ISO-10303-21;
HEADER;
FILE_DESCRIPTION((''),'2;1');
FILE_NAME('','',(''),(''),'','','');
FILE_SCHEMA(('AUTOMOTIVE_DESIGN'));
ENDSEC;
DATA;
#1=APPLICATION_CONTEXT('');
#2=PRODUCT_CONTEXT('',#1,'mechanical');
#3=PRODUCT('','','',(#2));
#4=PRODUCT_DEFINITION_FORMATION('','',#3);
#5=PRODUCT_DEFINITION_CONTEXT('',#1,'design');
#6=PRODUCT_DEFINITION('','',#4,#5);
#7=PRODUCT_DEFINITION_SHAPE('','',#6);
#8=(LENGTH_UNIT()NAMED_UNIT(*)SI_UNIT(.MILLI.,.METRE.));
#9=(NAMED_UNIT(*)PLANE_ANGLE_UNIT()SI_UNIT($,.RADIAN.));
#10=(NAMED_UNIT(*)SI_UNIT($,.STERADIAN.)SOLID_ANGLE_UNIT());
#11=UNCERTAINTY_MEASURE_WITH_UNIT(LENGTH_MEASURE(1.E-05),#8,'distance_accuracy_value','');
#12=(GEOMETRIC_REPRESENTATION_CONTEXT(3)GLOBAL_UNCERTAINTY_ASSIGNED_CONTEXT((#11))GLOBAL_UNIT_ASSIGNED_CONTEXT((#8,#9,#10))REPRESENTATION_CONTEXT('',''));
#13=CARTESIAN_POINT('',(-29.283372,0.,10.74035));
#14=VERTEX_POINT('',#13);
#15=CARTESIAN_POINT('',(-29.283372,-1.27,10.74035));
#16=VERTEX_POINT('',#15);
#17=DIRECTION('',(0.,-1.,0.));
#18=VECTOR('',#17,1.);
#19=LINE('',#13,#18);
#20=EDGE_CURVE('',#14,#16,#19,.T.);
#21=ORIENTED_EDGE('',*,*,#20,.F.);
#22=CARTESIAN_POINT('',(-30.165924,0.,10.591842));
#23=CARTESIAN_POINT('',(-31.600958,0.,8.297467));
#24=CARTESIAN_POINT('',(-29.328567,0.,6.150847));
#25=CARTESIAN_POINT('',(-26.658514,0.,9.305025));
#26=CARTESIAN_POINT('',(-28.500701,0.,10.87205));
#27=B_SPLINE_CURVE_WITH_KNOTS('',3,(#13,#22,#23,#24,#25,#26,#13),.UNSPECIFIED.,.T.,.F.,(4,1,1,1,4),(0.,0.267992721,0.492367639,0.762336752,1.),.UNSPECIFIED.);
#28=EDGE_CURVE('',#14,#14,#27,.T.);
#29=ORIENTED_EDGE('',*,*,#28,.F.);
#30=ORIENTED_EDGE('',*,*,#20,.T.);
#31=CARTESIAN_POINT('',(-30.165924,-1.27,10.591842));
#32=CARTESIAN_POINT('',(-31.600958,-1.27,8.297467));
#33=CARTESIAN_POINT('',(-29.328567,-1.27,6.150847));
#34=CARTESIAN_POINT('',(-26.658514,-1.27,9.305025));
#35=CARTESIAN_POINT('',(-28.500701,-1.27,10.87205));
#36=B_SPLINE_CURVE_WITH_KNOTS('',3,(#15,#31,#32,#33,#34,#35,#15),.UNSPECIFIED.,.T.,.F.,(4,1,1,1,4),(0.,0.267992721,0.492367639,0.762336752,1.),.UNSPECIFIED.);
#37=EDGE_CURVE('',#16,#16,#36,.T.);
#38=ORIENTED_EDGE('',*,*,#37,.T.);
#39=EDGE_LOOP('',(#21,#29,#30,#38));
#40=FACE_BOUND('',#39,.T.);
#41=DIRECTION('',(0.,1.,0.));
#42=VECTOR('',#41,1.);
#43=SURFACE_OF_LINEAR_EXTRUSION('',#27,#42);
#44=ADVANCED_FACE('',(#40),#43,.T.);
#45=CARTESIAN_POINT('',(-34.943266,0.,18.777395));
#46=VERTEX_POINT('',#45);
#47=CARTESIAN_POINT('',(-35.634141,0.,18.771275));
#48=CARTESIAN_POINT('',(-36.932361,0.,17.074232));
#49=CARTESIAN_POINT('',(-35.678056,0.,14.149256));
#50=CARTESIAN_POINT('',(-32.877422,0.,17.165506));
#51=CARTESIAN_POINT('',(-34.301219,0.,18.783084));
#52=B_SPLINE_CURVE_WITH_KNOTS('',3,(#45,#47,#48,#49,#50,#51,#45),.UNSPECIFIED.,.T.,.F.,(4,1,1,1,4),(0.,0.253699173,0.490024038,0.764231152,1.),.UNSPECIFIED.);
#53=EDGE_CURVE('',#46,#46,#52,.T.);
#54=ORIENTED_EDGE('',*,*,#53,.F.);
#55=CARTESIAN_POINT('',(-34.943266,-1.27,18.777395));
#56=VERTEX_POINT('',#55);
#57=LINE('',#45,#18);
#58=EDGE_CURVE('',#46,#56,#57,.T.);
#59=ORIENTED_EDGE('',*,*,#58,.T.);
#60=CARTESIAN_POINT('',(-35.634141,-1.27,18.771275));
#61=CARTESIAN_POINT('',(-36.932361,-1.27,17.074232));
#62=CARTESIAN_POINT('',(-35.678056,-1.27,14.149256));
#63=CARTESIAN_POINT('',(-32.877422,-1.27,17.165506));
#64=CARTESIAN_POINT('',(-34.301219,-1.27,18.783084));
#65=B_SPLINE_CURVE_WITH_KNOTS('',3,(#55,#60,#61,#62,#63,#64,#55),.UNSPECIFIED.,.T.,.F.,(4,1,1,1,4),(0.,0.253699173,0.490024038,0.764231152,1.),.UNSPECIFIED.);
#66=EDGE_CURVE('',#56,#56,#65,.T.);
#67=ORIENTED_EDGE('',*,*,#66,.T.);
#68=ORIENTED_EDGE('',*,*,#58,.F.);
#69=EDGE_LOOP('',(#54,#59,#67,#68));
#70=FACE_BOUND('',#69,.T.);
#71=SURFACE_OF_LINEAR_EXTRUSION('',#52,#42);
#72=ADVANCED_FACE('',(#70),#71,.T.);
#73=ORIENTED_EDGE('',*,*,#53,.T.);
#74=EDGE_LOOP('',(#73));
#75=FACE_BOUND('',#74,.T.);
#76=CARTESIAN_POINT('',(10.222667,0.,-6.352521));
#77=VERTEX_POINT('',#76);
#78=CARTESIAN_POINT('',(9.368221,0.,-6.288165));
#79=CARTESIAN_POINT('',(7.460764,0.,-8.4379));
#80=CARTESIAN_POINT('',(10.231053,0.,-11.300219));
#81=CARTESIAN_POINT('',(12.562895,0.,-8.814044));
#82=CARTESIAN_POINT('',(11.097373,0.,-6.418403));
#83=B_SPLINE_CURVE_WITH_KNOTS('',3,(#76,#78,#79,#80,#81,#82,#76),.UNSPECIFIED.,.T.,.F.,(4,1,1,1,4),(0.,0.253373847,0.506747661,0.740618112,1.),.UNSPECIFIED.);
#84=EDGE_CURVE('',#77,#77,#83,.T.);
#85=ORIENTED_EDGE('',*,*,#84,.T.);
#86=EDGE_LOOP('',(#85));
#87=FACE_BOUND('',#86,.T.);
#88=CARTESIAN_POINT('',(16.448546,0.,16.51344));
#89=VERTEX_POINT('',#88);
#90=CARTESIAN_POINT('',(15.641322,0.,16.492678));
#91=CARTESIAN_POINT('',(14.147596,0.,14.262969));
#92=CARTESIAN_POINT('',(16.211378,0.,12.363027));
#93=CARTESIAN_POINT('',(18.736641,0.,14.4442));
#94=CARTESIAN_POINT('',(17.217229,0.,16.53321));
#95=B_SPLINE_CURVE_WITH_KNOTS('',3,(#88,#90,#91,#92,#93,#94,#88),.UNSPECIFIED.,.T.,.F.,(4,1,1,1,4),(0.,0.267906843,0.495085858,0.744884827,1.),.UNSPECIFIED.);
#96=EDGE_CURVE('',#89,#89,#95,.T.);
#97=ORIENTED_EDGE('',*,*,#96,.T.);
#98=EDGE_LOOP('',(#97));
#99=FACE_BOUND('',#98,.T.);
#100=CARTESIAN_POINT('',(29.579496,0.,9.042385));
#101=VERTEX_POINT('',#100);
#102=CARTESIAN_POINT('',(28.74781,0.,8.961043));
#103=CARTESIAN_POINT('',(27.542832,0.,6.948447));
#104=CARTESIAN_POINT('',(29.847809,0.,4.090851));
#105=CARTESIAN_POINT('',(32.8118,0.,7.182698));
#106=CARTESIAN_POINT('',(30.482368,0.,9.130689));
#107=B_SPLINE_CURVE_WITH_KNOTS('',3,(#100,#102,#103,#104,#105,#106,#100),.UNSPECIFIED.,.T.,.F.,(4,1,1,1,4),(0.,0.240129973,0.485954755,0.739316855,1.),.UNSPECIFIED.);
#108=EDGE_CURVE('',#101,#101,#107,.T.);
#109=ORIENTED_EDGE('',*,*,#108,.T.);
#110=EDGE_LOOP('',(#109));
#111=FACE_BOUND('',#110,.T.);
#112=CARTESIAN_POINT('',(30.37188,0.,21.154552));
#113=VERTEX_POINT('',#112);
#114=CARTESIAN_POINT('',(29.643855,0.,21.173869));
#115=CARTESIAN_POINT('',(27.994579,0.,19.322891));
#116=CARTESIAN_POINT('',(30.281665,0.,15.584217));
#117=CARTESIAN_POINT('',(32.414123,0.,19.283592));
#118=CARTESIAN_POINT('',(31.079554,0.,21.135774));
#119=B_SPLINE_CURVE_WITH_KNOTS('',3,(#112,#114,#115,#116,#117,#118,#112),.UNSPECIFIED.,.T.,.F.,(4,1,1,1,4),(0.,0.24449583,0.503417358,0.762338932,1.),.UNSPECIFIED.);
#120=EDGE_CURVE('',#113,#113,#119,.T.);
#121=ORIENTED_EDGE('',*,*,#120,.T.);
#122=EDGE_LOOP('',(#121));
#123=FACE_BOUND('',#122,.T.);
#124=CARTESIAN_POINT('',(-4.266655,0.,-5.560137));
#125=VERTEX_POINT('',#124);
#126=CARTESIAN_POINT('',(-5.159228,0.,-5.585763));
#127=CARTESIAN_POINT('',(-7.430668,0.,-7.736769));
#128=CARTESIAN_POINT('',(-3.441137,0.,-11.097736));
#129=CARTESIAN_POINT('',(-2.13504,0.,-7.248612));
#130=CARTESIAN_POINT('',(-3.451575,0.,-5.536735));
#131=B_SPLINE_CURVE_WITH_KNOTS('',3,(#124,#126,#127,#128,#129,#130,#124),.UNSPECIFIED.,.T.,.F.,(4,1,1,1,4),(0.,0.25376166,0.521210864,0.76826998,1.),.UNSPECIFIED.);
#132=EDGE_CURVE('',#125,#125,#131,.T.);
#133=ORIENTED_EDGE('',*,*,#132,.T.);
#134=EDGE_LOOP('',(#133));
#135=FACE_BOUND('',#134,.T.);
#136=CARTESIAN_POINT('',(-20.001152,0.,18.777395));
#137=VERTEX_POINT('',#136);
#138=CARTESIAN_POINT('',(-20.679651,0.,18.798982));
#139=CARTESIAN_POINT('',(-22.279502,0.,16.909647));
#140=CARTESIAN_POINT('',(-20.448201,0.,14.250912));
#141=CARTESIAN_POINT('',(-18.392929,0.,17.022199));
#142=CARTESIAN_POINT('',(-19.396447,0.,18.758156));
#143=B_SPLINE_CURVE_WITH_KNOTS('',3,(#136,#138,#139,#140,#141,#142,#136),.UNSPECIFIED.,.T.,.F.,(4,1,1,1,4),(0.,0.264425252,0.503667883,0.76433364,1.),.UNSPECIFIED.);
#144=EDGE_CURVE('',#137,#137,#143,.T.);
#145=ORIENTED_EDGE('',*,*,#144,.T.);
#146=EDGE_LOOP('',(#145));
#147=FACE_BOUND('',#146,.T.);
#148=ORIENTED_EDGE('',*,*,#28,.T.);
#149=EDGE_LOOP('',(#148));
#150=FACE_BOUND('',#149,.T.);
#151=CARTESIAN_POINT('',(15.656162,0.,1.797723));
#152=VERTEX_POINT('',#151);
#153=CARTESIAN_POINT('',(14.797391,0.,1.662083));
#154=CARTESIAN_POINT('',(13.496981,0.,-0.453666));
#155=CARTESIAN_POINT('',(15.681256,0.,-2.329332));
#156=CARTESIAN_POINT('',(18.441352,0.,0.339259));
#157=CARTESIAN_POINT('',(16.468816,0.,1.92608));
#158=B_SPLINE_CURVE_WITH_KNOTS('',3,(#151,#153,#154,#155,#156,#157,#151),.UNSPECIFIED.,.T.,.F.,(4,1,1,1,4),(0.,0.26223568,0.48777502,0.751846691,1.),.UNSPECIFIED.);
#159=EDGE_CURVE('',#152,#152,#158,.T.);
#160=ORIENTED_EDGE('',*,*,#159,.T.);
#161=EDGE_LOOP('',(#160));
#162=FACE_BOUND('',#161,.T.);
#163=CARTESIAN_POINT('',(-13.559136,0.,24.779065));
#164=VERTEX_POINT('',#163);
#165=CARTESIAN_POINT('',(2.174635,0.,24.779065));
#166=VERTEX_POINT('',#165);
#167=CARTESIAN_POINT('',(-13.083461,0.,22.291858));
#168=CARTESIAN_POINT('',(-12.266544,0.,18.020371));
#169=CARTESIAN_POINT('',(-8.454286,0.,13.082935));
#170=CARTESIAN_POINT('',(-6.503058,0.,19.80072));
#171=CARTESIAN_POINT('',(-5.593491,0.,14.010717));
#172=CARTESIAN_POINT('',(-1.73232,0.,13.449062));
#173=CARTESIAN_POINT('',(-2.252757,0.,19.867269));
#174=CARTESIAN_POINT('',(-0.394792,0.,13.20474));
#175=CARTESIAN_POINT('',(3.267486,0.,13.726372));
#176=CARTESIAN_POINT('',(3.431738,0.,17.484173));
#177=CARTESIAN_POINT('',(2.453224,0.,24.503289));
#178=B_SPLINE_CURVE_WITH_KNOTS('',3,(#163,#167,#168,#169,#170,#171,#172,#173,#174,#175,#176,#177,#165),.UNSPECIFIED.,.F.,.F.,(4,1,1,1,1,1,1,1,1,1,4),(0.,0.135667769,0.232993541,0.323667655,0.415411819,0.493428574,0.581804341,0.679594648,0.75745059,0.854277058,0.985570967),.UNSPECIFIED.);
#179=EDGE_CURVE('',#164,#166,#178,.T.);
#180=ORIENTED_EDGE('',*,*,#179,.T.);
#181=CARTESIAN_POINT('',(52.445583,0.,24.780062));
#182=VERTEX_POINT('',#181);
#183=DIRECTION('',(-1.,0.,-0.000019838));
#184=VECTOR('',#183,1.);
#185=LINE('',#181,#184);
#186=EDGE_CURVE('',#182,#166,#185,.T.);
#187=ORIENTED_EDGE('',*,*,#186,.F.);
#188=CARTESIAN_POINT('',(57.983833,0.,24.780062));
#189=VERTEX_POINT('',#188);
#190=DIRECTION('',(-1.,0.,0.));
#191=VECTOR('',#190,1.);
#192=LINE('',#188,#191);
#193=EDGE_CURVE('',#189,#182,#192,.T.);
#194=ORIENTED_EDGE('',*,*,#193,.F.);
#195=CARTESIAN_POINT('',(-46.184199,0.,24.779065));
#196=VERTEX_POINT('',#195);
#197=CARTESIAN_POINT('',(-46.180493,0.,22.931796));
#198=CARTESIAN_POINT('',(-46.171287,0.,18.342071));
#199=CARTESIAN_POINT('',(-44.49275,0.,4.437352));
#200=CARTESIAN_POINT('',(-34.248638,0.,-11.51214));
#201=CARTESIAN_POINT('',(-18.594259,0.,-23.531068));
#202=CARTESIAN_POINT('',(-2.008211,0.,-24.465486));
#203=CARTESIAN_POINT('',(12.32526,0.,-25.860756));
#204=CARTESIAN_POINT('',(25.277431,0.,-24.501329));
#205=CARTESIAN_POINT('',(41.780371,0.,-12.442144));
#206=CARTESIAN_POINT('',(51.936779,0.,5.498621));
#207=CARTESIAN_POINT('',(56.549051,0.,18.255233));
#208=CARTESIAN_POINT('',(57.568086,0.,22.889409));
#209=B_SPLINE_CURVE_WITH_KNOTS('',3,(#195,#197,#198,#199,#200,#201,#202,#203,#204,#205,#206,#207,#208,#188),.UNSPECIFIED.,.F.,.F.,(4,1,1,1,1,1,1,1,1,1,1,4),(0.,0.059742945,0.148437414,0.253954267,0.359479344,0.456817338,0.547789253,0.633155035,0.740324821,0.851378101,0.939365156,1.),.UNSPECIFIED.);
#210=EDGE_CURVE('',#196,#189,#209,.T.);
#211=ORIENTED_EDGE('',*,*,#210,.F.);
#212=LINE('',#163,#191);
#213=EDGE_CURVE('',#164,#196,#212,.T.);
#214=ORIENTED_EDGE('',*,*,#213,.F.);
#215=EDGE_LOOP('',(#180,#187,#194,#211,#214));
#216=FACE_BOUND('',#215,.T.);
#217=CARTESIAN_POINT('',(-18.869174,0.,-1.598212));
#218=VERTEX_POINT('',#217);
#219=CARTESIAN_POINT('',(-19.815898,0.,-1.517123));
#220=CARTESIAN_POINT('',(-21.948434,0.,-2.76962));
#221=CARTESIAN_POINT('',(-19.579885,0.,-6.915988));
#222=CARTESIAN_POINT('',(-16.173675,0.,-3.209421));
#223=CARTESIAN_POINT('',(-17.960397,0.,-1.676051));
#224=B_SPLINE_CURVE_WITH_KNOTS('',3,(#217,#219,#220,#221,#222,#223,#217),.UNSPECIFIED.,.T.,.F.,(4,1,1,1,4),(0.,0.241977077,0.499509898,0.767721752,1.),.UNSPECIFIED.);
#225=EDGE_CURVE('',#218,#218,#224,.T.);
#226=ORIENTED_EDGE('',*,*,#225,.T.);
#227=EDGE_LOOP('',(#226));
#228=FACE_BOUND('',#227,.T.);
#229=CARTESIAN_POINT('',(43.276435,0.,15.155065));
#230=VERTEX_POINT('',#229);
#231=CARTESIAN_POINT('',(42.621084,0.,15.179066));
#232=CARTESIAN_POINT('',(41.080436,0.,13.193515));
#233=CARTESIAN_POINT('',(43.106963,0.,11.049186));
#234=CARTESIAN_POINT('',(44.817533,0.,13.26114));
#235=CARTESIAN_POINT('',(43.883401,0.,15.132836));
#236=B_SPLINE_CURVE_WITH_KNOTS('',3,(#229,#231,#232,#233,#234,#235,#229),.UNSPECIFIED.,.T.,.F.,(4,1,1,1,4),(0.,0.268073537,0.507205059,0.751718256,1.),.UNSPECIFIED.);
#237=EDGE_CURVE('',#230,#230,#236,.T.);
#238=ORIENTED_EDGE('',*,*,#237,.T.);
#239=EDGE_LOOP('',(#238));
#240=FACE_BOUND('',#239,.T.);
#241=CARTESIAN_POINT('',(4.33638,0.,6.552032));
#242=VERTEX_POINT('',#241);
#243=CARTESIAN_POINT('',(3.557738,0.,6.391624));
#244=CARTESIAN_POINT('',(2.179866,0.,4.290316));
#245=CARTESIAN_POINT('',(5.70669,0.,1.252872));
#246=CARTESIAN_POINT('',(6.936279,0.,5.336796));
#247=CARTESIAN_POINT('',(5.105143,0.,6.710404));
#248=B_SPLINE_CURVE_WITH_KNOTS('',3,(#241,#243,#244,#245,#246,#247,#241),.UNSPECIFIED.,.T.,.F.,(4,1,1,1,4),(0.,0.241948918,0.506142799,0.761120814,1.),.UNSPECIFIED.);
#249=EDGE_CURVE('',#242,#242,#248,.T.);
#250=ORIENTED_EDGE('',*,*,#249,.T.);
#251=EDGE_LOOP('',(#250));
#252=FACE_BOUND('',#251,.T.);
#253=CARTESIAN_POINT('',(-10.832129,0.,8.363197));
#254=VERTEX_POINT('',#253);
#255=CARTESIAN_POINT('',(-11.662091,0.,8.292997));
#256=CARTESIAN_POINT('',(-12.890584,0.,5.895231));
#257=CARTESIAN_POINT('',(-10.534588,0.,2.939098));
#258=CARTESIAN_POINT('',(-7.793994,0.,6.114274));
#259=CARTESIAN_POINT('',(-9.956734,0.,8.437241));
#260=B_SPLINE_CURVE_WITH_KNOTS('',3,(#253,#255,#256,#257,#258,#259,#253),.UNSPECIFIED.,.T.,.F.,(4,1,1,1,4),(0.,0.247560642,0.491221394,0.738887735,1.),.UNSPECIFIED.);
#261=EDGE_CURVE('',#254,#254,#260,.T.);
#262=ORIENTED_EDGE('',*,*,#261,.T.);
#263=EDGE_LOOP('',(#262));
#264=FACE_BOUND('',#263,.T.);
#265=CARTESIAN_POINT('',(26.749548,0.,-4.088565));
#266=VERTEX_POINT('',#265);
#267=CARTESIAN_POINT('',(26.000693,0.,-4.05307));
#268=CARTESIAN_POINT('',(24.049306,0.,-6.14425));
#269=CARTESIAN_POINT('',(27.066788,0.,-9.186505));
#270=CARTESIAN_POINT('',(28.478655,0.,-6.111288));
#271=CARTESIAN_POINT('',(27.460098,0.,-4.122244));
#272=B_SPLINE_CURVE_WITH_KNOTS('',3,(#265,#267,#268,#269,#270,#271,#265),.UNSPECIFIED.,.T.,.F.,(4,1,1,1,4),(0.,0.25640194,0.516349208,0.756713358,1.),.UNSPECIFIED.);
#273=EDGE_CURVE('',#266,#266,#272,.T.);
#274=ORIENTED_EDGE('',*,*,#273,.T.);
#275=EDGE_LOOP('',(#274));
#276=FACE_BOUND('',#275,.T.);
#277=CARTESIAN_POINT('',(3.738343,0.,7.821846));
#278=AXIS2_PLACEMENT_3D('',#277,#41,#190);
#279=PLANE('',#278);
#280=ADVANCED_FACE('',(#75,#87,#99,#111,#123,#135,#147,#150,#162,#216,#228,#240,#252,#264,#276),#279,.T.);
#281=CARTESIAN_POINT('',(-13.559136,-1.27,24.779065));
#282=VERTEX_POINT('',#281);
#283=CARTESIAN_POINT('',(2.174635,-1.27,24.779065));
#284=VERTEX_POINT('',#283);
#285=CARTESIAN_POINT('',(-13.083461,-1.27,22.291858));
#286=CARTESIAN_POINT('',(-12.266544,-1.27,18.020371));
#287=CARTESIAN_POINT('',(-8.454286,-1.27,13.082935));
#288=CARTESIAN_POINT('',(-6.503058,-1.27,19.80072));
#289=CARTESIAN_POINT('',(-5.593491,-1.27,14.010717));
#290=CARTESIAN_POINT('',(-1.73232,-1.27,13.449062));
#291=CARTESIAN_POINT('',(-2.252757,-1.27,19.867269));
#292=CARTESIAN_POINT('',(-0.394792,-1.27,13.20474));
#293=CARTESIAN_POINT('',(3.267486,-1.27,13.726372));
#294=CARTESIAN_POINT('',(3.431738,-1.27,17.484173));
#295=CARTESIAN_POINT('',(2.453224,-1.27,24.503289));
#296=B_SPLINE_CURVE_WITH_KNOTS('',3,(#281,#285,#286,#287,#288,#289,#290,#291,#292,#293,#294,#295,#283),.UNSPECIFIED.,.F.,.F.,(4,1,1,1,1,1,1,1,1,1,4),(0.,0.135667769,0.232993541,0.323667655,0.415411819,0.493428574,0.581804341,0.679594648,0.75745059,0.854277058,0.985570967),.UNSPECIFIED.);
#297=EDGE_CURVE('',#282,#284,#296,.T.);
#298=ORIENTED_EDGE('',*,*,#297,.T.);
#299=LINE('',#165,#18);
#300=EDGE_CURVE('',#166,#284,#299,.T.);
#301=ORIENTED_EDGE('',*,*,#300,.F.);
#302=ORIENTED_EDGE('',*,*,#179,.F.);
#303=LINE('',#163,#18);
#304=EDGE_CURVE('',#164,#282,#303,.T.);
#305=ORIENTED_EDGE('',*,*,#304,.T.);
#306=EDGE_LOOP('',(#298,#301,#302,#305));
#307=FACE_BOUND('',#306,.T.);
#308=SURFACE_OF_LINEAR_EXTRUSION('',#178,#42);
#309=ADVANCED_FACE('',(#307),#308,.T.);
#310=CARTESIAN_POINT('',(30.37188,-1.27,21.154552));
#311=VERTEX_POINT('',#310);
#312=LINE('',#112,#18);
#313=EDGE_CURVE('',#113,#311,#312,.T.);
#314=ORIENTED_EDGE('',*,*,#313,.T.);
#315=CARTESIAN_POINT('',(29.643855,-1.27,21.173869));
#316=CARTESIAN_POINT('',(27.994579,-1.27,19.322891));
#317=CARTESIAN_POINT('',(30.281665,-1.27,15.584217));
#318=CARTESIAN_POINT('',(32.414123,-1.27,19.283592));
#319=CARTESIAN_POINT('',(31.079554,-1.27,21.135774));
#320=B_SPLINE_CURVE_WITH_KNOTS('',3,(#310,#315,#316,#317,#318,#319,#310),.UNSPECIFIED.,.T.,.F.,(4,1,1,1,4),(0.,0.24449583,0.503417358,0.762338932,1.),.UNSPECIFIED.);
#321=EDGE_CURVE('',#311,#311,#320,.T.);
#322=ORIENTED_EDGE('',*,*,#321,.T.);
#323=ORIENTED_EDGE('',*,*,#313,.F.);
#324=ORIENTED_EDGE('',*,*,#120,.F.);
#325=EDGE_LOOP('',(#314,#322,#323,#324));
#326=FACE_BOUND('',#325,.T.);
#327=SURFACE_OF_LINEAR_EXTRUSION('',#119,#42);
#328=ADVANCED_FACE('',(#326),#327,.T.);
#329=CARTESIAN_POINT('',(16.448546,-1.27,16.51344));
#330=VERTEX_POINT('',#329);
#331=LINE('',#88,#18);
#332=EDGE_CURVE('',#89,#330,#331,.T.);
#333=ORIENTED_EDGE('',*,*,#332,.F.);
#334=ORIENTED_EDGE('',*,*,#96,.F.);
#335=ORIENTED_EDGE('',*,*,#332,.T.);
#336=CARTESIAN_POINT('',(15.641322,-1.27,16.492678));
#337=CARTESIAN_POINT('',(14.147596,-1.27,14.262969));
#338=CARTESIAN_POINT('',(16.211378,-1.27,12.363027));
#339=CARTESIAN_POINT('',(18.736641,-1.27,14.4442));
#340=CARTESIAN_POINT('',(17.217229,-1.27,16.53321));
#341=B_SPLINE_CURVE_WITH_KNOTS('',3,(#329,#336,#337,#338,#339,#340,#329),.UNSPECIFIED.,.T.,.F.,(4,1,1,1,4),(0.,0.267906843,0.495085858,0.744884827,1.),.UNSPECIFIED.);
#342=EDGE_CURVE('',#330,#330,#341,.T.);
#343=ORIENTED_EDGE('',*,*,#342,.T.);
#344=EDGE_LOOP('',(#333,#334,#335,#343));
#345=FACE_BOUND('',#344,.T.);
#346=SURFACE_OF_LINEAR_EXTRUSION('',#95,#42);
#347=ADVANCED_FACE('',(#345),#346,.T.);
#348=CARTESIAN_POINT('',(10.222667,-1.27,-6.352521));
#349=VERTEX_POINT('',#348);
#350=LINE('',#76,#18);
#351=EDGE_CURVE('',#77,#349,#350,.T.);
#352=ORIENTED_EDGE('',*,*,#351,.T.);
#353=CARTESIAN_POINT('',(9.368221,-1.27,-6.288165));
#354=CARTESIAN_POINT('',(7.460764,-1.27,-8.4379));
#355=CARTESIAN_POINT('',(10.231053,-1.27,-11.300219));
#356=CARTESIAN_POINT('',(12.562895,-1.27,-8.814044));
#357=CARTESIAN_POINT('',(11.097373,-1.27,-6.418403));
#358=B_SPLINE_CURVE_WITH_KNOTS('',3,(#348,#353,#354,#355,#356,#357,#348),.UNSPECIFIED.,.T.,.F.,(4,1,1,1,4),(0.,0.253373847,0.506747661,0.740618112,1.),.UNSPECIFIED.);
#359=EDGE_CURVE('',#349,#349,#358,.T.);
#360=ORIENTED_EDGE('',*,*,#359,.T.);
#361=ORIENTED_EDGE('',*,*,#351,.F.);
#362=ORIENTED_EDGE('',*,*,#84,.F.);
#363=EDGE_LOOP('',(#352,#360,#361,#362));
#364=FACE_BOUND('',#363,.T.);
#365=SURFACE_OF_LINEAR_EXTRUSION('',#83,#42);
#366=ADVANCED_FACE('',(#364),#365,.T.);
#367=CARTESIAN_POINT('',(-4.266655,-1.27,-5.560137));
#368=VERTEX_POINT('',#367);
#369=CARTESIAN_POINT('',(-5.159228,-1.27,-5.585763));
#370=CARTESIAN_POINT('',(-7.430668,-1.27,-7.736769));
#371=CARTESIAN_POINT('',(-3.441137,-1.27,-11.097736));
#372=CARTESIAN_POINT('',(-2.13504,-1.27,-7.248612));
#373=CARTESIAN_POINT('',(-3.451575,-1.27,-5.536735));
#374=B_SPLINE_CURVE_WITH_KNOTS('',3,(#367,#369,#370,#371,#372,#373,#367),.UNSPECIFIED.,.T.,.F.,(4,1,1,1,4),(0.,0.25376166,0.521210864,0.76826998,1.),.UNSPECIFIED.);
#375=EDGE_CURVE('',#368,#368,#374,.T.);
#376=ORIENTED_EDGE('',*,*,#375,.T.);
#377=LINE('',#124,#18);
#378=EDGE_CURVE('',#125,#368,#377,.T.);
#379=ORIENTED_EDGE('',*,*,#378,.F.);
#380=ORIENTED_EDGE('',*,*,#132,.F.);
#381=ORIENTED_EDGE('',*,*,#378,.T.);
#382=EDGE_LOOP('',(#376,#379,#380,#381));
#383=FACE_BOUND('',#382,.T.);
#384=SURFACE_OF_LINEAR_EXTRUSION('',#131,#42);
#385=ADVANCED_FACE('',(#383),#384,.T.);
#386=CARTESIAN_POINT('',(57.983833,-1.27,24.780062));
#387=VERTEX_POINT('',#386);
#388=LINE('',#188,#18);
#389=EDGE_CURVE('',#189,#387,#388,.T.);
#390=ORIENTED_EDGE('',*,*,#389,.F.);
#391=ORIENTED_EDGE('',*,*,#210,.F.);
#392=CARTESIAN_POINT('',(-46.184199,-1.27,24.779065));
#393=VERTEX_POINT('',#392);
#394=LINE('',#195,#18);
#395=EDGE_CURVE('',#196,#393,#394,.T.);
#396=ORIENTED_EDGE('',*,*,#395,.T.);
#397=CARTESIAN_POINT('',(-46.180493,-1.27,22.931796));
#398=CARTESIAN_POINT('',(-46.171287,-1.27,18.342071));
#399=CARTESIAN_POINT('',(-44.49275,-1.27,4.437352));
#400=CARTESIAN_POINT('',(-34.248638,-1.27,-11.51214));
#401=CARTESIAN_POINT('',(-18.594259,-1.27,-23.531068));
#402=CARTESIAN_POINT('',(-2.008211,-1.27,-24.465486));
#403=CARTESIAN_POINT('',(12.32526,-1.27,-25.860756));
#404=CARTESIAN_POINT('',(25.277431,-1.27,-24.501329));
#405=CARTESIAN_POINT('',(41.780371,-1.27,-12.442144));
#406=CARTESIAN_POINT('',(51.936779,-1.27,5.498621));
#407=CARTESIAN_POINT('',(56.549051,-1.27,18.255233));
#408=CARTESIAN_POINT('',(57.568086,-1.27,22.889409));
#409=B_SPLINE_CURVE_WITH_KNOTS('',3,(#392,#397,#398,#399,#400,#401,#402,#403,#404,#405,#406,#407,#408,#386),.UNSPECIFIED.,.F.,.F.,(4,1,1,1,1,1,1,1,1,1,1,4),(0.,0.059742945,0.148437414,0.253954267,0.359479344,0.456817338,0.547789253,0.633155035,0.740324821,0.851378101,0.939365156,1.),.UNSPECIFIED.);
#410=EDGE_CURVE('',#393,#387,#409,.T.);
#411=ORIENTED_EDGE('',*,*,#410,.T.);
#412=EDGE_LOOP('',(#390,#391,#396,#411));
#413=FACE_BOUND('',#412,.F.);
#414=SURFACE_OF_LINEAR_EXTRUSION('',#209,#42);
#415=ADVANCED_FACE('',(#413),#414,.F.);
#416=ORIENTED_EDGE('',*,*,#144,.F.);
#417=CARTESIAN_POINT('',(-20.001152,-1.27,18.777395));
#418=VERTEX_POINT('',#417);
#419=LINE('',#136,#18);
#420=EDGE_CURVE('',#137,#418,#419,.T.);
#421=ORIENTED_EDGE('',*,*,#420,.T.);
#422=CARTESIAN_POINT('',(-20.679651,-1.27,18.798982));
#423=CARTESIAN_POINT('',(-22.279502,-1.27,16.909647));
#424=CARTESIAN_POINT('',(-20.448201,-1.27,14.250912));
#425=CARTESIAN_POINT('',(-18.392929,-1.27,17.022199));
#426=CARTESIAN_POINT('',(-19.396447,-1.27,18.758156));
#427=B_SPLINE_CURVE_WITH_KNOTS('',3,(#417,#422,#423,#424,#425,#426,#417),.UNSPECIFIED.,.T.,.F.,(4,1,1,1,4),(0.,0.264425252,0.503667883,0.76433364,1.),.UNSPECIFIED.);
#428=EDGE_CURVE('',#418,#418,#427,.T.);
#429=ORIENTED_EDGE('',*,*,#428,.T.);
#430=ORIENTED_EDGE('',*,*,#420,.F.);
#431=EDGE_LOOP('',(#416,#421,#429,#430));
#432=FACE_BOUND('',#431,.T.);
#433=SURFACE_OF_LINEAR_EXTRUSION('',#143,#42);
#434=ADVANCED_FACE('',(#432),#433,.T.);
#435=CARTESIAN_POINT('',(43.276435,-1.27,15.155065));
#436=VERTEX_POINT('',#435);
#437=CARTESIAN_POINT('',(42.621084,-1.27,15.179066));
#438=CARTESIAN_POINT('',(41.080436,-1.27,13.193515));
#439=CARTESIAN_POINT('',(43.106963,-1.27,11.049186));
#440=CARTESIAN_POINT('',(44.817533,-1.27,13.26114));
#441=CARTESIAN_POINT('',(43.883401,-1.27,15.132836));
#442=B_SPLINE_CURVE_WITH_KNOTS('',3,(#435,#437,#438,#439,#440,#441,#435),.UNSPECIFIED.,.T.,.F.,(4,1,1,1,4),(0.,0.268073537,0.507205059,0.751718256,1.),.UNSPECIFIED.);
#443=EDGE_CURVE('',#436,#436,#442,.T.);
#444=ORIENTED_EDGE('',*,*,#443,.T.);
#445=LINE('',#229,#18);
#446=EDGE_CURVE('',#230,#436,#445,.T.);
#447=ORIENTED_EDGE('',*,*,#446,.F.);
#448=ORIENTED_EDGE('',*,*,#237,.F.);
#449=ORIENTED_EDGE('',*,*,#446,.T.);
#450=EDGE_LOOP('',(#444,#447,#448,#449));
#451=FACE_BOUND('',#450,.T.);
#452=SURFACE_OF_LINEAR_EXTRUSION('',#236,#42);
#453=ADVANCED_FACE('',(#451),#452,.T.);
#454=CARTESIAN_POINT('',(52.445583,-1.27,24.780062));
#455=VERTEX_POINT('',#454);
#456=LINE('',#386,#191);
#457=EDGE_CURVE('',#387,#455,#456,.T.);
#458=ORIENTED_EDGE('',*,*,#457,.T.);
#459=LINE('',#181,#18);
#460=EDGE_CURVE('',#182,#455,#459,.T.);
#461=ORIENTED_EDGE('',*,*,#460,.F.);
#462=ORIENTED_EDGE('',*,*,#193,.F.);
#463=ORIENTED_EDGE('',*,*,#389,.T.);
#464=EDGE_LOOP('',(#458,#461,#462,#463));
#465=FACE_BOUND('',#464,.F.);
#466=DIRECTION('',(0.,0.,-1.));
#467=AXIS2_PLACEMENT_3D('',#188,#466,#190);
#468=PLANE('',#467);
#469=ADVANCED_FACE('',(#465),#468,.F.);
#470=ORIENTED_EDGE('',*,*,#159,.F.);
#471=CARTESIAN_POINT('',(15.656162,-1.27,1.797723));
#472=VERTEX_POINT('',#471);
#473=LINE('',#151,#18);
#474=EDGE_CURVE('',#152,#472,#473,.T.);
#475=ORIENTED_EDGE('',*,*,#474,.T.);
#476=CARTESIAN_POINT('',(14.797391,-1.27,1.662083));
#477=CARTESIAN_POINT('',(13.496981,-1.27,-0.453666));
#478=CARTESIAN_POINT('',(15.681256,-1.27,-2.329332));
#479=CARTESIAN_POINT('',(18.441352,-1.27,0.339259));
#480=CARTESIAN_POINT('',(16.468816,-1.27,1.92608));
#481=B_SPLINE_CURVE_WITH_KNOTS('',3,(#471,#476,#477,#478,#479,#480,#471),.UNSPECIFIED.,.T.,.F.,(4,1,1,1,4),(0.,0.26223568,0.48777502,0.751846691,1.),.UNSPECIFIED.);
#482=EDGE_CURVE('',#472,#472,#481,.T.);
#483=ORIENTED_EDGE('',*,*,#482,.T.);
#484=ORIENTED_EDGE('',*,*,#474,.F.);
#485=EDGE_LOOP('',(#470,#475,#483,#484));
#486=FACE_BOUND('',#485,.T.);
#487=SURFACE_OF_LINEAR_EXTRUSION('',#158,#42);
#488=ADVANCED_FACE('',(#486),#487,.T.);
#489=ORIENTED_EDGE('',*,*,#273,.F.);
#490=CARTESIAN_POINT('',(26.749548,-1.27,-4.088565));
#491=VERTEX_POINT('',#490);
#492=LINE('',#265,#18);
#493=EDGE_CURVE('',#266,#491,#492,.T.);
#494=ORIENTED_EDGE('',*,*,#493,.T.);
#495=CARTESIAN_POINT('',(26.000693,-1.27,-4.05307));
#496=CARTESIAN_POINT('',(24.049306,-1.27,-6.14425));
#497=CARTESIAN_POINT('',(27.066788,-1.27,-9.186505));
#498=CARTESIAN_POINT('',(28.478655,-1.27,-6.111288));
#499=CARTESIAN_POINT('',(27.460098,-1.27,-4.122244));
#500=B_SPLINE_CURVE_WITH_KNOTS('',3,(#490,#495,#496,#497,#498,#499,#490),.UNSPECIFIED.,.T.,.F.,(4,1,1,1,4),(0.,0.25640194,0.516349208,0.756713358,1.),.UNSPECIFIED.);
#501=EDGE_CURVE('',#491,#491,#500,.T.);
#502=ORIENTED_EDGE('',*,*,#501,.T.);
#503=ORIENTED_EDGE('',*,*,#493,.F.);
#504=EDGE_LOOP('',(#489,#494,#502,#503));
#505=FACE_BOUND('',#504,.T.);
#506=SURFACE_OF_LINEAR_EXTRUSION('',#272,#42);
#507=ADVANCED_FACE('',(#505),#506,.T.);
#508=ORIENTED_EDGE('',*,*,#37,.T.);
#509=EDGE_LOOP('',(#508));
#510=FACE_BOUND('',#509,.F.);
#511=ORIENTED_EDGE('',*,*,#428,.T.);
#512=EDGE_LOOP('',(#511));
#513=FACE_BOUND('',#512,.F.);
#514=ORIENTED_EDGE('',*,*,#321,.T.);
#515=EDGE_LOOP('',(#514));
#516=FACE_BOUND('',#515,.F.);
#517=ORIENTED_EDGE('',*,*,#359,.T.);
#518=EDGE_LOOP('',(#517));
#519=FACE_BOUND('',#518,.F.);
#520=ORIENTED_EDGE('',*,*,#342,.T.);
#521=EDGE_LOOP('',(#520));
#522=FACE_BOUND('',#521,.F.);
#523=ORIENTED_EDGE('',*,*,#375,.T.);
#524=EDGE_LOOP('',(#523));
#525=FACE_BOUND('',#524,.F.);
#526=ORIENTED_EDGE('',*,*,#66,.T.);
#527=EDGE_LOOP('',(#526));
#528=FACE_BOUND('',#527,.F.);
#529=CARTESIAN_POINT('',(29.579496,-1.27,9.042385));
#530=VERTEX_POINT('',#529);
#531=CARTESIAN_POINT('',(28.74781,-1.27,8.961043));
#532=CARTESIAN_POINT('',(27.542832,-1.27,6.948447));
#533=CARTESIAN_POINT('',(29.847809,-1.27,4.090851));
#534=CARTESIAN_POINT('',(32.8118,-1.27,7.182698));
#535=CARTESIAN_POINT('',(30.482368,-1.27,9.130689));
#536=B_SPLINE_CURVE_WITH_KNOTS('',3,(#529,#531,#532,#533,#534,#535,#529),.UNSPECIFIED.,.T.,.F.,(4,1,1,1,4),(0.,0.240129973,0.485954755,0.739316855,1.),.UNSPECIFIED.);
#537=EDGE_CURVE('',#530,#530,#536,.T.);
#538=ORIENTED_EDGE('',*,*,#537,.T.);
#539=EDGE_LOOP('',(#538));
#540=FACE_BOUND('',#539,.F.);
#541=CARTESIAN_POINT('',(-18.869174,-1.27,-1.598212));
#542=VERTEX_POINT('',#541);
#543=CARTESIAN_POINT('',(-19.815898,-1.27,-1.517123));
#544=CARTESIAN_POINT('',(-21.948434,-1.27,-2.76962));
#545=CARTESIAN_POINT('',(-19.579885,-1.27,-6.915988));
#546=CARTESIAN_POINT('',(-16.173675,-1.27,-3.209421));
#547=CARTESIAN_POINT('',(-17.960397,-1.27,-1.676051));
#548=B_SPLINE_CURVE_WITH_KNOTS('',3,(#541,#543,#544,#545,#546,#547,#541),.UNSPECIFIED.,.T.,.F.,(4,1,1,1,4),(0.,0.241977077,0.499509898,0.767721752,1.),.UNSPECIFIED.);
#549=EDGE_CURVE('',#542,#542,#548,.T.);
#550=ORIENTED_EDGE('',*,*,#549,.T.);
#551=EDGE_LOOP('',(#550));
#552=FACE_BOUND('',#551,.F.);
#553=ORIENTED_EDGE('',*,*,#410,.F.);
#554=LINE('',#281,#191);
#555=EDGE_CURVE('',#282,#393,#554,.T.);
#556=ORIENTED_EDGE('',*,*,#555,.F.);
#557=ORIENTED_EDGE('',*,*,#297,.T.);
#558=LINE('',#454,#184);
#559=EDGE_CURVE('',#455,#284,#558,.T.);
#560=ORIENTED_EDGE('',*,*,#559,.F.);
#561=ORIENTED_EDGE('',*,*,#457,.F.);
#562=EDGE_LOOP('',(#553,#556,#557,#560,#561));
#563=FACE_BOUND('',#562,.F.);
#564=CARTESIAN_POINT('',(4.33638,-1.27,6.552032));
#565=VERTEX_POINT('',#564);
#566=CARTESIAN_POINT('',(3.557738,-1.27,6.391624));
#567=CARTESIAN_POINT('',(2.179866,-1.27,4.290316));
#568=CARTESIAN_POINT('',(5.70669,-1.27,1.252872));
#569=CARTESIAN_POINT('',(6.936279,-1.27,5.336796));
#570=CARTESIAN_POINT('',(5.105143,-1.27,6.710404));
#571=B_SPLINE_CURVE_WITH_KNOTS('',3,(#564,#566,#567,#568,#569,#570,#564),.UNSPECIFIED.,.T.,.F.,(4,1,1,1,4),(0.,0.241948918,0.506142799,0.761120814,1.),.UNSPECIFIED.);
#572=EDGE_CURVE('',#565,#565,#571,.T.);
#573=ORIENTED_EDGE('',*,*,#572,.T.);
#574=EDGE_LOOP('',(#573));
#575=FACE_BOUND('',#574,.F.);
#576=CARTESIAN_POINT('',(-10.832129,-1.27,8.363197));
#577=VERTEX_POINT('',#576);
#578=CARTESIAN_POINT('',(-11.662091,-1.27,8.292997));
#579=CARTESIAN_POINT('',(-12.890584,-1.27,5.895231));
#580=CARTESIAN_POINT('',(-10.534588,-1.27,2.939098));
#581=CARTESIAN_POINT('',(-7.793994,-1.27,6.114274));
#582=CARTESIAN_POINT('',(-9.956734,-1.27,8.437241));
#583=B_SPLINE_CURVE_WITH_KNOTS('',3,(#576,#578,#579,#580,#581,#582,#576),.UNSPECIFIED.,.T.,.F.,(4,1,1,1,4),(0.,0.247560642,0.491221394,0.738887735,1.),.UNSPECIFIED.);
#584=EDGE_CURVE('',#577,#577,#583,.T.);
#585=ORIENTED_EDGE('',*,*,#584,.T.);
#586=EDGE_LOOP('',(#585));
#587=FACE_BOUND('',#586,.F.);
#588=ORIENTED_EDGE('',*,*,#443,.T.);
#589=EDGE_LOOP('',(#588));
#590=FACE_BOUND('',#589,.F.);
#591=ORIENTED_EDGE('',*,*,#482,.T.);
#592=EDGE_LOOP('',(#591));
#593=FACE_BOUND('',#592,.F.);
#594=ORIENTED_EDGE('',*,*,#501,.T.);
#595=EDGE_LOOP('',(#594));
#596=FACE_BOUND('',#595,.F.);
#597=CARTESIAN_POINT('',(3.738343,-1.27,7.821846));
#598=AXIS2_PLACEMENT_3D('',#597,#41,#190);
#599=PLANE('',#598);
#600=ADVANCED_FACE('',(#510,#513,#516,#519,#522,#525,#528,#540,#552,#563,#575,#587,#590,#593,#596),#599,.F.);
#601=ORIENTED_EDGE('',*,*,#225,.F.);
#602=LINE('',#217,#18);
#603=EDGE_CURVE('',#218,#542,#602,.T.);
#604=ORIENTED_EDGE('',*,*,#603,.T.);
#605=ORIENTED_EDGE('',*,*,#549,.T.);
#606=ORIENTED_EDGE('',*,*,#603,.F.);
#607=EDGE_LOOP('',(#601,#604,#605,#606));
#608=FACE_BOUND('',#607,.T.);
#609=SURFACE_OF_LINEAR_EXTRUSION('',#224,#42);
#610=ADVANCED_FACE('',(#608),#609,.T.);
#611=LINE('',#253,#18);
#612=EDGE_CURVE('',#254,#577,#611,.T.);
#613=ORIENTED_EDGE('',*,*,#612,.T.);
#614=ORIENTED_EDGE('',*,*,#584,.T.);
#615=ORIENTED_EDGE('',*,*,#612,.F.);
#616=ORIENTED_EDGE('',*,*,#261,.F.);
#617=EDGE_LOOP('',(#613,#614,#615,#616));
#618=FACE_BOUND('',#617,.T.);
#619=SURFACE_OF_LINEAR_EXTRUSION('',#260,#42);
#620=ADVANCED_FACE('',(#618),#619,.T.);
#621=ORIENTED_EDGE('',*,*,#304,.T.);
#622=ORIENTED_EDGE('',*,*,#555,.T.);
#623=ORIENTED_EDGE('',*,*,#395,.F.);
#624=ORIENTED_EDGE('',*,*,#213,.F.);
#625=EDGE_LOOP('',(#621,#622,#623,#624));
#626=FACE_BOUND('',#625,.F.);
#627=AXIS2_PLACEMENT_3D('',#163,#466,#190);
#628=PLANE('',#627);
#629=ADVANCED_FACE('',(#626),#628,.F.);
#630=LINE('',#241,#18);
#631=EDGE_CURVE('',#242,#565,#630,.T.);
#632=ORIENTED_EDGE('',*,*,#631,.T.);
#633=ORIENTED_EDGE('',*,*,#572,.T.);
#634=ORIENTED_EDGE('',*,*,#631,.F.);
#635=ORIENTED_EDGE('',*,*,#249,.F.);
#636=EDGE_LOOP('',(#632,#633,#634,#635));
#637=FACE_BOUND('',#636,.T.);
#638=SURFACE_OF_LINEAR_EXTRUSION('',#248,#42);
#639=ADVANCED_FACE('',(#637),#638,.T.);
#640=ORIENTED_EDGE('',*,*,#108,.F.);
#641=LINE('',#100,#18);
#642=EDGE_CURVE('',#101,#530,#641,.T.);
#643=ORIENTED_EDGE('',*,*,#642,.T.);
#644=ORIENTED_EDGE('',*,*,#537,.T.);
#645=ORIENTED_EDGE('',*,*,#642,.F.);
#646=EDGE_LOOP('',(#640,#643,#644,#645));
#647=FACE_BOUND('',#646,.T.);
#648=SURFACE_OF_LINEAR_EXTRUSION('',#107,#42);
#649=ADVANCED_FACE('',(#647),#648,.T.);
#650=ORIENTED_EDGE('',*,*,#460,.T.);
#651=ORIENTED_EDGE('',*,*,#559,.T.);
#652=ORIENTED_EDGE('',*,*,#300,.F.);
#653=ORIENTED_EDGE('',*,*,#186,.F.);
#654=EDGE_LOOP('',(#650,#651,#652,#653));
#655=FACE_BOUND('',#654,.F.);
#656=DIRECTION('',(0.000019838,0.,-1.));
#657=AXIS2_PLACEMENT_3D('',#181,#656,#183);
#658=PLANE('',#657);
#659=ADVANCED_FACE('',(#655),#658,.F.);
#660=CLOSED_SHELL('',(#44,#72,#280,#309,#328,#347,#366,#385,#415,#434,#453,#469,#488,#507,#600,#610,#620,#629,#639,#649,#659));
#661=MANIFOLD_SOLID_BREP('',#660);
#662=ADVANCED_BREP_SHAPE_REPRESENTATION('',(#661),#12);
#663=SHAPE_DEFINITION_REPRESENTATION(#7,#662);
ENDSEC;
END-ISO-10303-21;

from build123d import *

# Parameters (mm, degrees)
F1_DEPTH = 1.27


with BuildPart() as f1:
    # F0 (on Front) → F1 (new body)
    with BuildSketch(Plane.XZ):
        with BuildLine():
            add(Edge.make_bspline(
                [(-13.5591362903, 24.7790648271), (-13.0834608044, 22.291858025), (-12.2665437396, 18.0203709693), (-8.4542859828, 13.0829349334), (-6.5030579203, 19.8007199643), (-5.5934908956, 14.0107170993), (-1.7323204667, 13.449062117), (-2.2527565686, 19.8672687747), (-0.3947921842, 13.2047404177), (3.2674855955, 13.7263716082), (3.4317383576, 17.4841734239), (2.4532237041, 24.5032885216), (2.1746347359, 24.7790648271)],
                knots=[0, 0, 0, 0, 0.1356677694, 0.2329935414, 0.3236676546, 0.4154118193, 0.4934285745, 0.5818043409, 0.6795946477, 0.7574505905, 0.8542770579, 0.9855709672, 0.9855709672, 0.9855709672, 0.9855709672], degree=3))
            Line((-13.5591362903, 24.7790648271), (-41.961529974, 24.7790648271))
            Line((-41.961529974, 24.7790648271), (-41.961529974, 18.6641987998))
            Line((-41.961529974, 18.6641987998), (-39.6975742021, 8.2499970336))
            Line((-39.6975742021, 8.2499970336), (-30.3021536508, -7.1449048232))
            Line((-30.3021536508, -7.1449048232), (-15.3600422034, -18.2382936004))
            Line((-15.3600422034, -18.2382936004), (-2.7950831988, -19.5966657597))
            Line((-2.7950831988, -19.5966657597), (5.3444972894, -19.5966657597))
            Line((5.3444972894, -19.5966657597), (11.5810402369, -19.5966657597))
            Line((11.5810402369, -19.5966657597), (21.3160535952, -18.2382936004))
            Line((21.3160535952, -18.2382936004), (36.3713635763, -7.7108946975))
            Line((36.3713635763, -7.7108946975), (47.4647528192, 7.6373227526))
            Line((47.4647528192, 7.6373227526), (51.061207678, 19.2301858802))
            Line((51.061207678, 19.2301858802), (52.4455830286, 24.7800621037))
            Line((52.4455830286, 24.7800621037), (2.1746347359, 24.7790648271))
        make_face()
        with BuildLine():
            add(Edge.make_bspline(
                [(-4.2666548231, -5.5601365279), (-5.159228289, -5.5857632686), (-7.4306682644, -7.7367693792), (-3.4411373263, -11.0977360792), (-2.1350401601, -7.248612386), (-3.4515747704, -5.5367347062), (-4.2666548231, -5.5601365279)],
                knots=[0, 0, 0, 0, 0.2537616603, 0.5212108644, 0.7682699796, 1, 1, 1, 1], degree=3))
        make_face(mode=Mode.SUBTRACT)
        with BuildLine():
            add(Edge.make_bspline(
                [(-18.8691743949, -1.5982120644), (-19.8158977492, -1.5171230906), (-21.948433656, -2.7696200574), (-19.579885169, -6.9159877882), (-16.1736746251, -3.2094212032), (-17.9603972328, -1.676050862), (-18.8691743949, -1.5982120644)],
                knots=[0, 0, 0, 0, 0.2419770774, 0.4995098981, 0.7677217524, 1, 1, 1, 1], degree=3))
        make_face(mode=Mode.SUBTRACT)
        with BuildLine():
            add(Edge.make_bspline(
                [(10.2226666807, -6.3525206756), (9.368220824, -6.2881647513), (7.460763823, -8.4379001208), (10.2310534958, -11.3002186359), (12.5628946057, -8.8140441172), (11.0973732932, -6.4184026178), (10.2226666807, -6.3525206756)],
                knots=[0, 0, 0, 0, 0.2533738468, 0.5067476613, 0.7406181123, 1, 1, 1, 1], degree=3))
        make_face(mode=Mode.SUBTRACT)
        with BuildLine():
            add(Edge.make_bspline(
                [(26.7495478204, -4.0885649036), (26.0006928051, -4.0530699383), (24.0493058448, -6.1442499641), (27.0667881389, -9.1865052405), (28.4786546481, -6.1112884905), (27.4600979127, -4.1222442547), (26.7495478204, -4.0885649036)],
                knots=[0, 0, 0, 0, 0.2564019403, 0.5163492084, 0.7567133576, 1, 1, 1, 1], degree=3))
        make_face(mode=Mode.SUBTRACT)
        with BuildLine():
            add(Edge.make_bspline(
                [(-29.2833724359, 10.7403498728), (-30.1659244778, 10.5918423903), (-31.6009583502, 8.2974670899), (-29.3285668749, 6.1508465732), (-26.6585139647, 9.3050246917), (-28.5007012346, 10.8720503553), (-29.2833724359, 10.7403498728)],
                knots=[0, 0, 0, 0, 0.2679927207, 0.4923676393, 0.7623367522, 1, 1, 1, 1], degree=3))
        make_face(mode=Mode.SUBTRACT)
        with BuildLine():
            add(Edge.make_bspline(
                [(-10.8321287969, 8.3631974299), (-11.6620907892, 8.2929965899), (-12.8905836504, 5.8952305214), (-10.5345876221, 2.9390975112), (-7.7939941864, 6.1142743346), (-9.9567341721, 8.4372411071), (-10.8321287969, 8.3631974299)],
                knots=[0, 0, 0, 0, 0.2475606423, 0.4912213937, 0.7388877351, 1, 1, 1, 1], degree=3))
        make_face(mode=Mode.SUBTRACT)
        with BuildLine():
            add(Edge.make_bspline(
                [(4.3363800671, 6.5520320673), (3.5577380904, 6.391624485), (2.179866216, 4.2903156755), (5.7066895354, 1.2528717405), (6.9362794385, 5.3367959307), (5.1051430074, 6.710404475), (4.3363800671, 6.5520320673)],
                knots=[0, 0, 0, 0, 0.2419489185, 0.5061427993, 0.7611208135, 1, 1, 1, 1], degree=3))
        make_face(mode=Mode.SUBTRACT)
        with BuildLine():
            add(Edge.make_bspline(
                [(-34.943265591, 18.7773954708), (-35.6341405761, 18.7712745621), (-36.9323605657, 17.0742322563), (-35.6780564797, 14.1492562932), (-32.8774222812, 17.1655056074), (-34.3012185658, 18.783083781), (-34.943265591, 18.7773954708)],
                knots=[0, 0, 0, 0, 0.2536991734, 0.4900240377, 0.7642311517, 1, 1, 1, 1], degree=3))
        make_face(mode=Mode.SUBTRACT)
        with BuildLine():
            add(Edge.make_bspline(
                [(-20.0011522809, 18.7773954708), (-20.6796509637, 18.7989822207), (-22.2795024855, 16.9096469057), (-20.4482012472, 14.250911605), (-18.3929293505, 17.0221992675), (-19.3964471176, 18.758156496), (-20.0011522809, 18.7773954708)],
                knots=[0, 0, 0, 0, 0.2644252518, 0.503667883, 0.7643336397, 1, 1, 1, 1], degree=3))
        make_face(mode=Mode.SUBTRACT)
        with BuildLine():
            add(Edge.make_bspline(
                [(15.6561623028, 1.7977234561), (14.7973911012, 1.6620825521), (13.4969814562, -0.4536657912), (15.681256175, -2.32933232), (18.4413524665, 0.3392592139), (16.4688164586, 1.9260802805), (15.6561623028, 1.7977234561)],
                knots=[0, 0, 0, 0, 0.2622356801, 0.4877750205, 0.7518466911, 1, 1, 1, 1], degree=3))
        make_face(mode=Mode.SUBTRACT)
        with BuildLine():
            add(Edge.make_bspline(
                [(29.5794962606, 9.0423849065), (28.7478099057, 8.9610426826), (27.5428316992, 6.9484466332), (29.8478087303, 4.0908509871), (32.811800239, 7.1826982668), (30.4823681992, 9.1306893628), (29.5794962606, 9.0423849065)],
                knots=[0, 0, 0, 0, 0.2401299731, 0.4859547546, 0.7393168554, 1, 1, 1, 1], degree=3))
        make_face(mode=Mode.SUBTRACT)
        with BuildLine():
            add(Edge.make_bspline(
                [(16.4485464504, 16.5134396989), (15.6413216316, 16.4926784086), (14.1475957049, 14.2629692088), (16.21137761, 12.363027208), (18.7366407347, 14.4441995955), (17.2172289409, 16.5332097059), (16.4485464504, 16.5134396989)],
                knots=[0, 0, 0, 0, 0.2679068434, 0.4950858583, 0.7448848267, 1, 1, 1, 1], degree=3))
        make_face(mode=Mode.SUBTRACT)
        with BuildLine():
            add(Edge.make_bspline(
                [(30.3718804082, 21.154551639), (29.6438548431, 21.1738694665), (27.994578728, 19.3228912159), (30.2816650446, 15.584216728), (32.4141225761, 19.2835923038), (31.0795543728, 21.1357738321), (30.3718804082, 21.154551639)],
                knots=[0, 0, 0, 0, 0.2444958301, 0.5034173583, 0.762338932, 1, 1, 1, 1], degree=3))
        make_face(mode=Mode.SUBTRACT)
        with BuildLine():
            add(Edge.make_bspline(
                [(43.2764350137, 15.1550647456), (42.6210844987, 15.1790658542), (41.0804364043, 13.1935149596), (43.1069628957, 11.0491863981), (44.8175331013, 13.2611395096), (43.8834011874, 15.132835632), (43.2764350137, 15.1550647456)],
                knots=[0, 0, 0, 0, 0.2680735368, 0.5072050589, 0.7517182559, 1, 1, 1, 1], degree=3))
        make_face(mode=Mode.SUBTRACT)
        with BuildLine():
            Line((-41.961529974, 18.6641987998), (-41.961529974, 24.7790648271))
            Line((-41.961529974, 24.7790648271), (-46.1841986814, 24.7790648271))
            add(Edge.make_bspline(
                [(-46.1841986814, 24.7790648271), (-46.1804933535, 22.9317964443), (-46.1712870902, 18.3420705869), (-44.4927497014, 4.4373515693), (-34.2486375995, -11.5121396656), (-18.5942594671, -23.5310679777), (-2.008210534, -24.4654861962), (12.325259504, -25.8607560131), (25.2774313642, -24.5013290259), (41.7803714183, -12.4421439424), (51.9367788105, 5.498620842), (56.5490511329, 18.2552332769), (57.5680861973, 22.8894086761), (57.9838326833, 24.7800621037)],
                knots=[0, 0, 0, 0, 0.0597429453, 0.1484374136, 0.2539542668, 0.3594793444, 0.4568173382, 0.5477892535, 0.6331550353, 0.7403248211, 0.8513781007, 0.9393651558, 1, 1, 1, 1], degree=3))
            Line((57.9838326833, 24.7800621037), (52.4455830286, 24.7800621037))
            Line((52.4455830286, 24.7800621037), (51.061207678, 19.2301858802))
            Line((51.061207678, 19.2301858802), (47.4647528192, 7.6373227526))
            Line((47.4647528192, 7.6373227526), (36.3713635763, -7.7108946975))
            Line((36.3713635763, -7.7108946975), (21.3160535952, -18.2382936004))
            Line((21.3160535952, -18.2382936004), (11.5810402369, -19.5966657597))
            Line((11.5810402369, -19.5966657597), (5.3444972894, -19.5966657597))
            Line((5.3444972894, -19.5966657597), (-2.7950831988, -19.5966657597))
            Line((-2.7950831988, -19.5966657597), (-15.3600422034, -18.2382936004))
            Line((-15.3600422034, -18.2382936004), (-30.3021536508, -7.1449048232))
            Line((-30.3021536508, -7.1449048232), (-39.6975742021, 8.2499970336))
            Line((-39.6975742021, 8.2499970336), (-41.961529974, 18.6641987998))
        make_face()
    extrude(amount=F1_DEPTH)


solid = f1.part
